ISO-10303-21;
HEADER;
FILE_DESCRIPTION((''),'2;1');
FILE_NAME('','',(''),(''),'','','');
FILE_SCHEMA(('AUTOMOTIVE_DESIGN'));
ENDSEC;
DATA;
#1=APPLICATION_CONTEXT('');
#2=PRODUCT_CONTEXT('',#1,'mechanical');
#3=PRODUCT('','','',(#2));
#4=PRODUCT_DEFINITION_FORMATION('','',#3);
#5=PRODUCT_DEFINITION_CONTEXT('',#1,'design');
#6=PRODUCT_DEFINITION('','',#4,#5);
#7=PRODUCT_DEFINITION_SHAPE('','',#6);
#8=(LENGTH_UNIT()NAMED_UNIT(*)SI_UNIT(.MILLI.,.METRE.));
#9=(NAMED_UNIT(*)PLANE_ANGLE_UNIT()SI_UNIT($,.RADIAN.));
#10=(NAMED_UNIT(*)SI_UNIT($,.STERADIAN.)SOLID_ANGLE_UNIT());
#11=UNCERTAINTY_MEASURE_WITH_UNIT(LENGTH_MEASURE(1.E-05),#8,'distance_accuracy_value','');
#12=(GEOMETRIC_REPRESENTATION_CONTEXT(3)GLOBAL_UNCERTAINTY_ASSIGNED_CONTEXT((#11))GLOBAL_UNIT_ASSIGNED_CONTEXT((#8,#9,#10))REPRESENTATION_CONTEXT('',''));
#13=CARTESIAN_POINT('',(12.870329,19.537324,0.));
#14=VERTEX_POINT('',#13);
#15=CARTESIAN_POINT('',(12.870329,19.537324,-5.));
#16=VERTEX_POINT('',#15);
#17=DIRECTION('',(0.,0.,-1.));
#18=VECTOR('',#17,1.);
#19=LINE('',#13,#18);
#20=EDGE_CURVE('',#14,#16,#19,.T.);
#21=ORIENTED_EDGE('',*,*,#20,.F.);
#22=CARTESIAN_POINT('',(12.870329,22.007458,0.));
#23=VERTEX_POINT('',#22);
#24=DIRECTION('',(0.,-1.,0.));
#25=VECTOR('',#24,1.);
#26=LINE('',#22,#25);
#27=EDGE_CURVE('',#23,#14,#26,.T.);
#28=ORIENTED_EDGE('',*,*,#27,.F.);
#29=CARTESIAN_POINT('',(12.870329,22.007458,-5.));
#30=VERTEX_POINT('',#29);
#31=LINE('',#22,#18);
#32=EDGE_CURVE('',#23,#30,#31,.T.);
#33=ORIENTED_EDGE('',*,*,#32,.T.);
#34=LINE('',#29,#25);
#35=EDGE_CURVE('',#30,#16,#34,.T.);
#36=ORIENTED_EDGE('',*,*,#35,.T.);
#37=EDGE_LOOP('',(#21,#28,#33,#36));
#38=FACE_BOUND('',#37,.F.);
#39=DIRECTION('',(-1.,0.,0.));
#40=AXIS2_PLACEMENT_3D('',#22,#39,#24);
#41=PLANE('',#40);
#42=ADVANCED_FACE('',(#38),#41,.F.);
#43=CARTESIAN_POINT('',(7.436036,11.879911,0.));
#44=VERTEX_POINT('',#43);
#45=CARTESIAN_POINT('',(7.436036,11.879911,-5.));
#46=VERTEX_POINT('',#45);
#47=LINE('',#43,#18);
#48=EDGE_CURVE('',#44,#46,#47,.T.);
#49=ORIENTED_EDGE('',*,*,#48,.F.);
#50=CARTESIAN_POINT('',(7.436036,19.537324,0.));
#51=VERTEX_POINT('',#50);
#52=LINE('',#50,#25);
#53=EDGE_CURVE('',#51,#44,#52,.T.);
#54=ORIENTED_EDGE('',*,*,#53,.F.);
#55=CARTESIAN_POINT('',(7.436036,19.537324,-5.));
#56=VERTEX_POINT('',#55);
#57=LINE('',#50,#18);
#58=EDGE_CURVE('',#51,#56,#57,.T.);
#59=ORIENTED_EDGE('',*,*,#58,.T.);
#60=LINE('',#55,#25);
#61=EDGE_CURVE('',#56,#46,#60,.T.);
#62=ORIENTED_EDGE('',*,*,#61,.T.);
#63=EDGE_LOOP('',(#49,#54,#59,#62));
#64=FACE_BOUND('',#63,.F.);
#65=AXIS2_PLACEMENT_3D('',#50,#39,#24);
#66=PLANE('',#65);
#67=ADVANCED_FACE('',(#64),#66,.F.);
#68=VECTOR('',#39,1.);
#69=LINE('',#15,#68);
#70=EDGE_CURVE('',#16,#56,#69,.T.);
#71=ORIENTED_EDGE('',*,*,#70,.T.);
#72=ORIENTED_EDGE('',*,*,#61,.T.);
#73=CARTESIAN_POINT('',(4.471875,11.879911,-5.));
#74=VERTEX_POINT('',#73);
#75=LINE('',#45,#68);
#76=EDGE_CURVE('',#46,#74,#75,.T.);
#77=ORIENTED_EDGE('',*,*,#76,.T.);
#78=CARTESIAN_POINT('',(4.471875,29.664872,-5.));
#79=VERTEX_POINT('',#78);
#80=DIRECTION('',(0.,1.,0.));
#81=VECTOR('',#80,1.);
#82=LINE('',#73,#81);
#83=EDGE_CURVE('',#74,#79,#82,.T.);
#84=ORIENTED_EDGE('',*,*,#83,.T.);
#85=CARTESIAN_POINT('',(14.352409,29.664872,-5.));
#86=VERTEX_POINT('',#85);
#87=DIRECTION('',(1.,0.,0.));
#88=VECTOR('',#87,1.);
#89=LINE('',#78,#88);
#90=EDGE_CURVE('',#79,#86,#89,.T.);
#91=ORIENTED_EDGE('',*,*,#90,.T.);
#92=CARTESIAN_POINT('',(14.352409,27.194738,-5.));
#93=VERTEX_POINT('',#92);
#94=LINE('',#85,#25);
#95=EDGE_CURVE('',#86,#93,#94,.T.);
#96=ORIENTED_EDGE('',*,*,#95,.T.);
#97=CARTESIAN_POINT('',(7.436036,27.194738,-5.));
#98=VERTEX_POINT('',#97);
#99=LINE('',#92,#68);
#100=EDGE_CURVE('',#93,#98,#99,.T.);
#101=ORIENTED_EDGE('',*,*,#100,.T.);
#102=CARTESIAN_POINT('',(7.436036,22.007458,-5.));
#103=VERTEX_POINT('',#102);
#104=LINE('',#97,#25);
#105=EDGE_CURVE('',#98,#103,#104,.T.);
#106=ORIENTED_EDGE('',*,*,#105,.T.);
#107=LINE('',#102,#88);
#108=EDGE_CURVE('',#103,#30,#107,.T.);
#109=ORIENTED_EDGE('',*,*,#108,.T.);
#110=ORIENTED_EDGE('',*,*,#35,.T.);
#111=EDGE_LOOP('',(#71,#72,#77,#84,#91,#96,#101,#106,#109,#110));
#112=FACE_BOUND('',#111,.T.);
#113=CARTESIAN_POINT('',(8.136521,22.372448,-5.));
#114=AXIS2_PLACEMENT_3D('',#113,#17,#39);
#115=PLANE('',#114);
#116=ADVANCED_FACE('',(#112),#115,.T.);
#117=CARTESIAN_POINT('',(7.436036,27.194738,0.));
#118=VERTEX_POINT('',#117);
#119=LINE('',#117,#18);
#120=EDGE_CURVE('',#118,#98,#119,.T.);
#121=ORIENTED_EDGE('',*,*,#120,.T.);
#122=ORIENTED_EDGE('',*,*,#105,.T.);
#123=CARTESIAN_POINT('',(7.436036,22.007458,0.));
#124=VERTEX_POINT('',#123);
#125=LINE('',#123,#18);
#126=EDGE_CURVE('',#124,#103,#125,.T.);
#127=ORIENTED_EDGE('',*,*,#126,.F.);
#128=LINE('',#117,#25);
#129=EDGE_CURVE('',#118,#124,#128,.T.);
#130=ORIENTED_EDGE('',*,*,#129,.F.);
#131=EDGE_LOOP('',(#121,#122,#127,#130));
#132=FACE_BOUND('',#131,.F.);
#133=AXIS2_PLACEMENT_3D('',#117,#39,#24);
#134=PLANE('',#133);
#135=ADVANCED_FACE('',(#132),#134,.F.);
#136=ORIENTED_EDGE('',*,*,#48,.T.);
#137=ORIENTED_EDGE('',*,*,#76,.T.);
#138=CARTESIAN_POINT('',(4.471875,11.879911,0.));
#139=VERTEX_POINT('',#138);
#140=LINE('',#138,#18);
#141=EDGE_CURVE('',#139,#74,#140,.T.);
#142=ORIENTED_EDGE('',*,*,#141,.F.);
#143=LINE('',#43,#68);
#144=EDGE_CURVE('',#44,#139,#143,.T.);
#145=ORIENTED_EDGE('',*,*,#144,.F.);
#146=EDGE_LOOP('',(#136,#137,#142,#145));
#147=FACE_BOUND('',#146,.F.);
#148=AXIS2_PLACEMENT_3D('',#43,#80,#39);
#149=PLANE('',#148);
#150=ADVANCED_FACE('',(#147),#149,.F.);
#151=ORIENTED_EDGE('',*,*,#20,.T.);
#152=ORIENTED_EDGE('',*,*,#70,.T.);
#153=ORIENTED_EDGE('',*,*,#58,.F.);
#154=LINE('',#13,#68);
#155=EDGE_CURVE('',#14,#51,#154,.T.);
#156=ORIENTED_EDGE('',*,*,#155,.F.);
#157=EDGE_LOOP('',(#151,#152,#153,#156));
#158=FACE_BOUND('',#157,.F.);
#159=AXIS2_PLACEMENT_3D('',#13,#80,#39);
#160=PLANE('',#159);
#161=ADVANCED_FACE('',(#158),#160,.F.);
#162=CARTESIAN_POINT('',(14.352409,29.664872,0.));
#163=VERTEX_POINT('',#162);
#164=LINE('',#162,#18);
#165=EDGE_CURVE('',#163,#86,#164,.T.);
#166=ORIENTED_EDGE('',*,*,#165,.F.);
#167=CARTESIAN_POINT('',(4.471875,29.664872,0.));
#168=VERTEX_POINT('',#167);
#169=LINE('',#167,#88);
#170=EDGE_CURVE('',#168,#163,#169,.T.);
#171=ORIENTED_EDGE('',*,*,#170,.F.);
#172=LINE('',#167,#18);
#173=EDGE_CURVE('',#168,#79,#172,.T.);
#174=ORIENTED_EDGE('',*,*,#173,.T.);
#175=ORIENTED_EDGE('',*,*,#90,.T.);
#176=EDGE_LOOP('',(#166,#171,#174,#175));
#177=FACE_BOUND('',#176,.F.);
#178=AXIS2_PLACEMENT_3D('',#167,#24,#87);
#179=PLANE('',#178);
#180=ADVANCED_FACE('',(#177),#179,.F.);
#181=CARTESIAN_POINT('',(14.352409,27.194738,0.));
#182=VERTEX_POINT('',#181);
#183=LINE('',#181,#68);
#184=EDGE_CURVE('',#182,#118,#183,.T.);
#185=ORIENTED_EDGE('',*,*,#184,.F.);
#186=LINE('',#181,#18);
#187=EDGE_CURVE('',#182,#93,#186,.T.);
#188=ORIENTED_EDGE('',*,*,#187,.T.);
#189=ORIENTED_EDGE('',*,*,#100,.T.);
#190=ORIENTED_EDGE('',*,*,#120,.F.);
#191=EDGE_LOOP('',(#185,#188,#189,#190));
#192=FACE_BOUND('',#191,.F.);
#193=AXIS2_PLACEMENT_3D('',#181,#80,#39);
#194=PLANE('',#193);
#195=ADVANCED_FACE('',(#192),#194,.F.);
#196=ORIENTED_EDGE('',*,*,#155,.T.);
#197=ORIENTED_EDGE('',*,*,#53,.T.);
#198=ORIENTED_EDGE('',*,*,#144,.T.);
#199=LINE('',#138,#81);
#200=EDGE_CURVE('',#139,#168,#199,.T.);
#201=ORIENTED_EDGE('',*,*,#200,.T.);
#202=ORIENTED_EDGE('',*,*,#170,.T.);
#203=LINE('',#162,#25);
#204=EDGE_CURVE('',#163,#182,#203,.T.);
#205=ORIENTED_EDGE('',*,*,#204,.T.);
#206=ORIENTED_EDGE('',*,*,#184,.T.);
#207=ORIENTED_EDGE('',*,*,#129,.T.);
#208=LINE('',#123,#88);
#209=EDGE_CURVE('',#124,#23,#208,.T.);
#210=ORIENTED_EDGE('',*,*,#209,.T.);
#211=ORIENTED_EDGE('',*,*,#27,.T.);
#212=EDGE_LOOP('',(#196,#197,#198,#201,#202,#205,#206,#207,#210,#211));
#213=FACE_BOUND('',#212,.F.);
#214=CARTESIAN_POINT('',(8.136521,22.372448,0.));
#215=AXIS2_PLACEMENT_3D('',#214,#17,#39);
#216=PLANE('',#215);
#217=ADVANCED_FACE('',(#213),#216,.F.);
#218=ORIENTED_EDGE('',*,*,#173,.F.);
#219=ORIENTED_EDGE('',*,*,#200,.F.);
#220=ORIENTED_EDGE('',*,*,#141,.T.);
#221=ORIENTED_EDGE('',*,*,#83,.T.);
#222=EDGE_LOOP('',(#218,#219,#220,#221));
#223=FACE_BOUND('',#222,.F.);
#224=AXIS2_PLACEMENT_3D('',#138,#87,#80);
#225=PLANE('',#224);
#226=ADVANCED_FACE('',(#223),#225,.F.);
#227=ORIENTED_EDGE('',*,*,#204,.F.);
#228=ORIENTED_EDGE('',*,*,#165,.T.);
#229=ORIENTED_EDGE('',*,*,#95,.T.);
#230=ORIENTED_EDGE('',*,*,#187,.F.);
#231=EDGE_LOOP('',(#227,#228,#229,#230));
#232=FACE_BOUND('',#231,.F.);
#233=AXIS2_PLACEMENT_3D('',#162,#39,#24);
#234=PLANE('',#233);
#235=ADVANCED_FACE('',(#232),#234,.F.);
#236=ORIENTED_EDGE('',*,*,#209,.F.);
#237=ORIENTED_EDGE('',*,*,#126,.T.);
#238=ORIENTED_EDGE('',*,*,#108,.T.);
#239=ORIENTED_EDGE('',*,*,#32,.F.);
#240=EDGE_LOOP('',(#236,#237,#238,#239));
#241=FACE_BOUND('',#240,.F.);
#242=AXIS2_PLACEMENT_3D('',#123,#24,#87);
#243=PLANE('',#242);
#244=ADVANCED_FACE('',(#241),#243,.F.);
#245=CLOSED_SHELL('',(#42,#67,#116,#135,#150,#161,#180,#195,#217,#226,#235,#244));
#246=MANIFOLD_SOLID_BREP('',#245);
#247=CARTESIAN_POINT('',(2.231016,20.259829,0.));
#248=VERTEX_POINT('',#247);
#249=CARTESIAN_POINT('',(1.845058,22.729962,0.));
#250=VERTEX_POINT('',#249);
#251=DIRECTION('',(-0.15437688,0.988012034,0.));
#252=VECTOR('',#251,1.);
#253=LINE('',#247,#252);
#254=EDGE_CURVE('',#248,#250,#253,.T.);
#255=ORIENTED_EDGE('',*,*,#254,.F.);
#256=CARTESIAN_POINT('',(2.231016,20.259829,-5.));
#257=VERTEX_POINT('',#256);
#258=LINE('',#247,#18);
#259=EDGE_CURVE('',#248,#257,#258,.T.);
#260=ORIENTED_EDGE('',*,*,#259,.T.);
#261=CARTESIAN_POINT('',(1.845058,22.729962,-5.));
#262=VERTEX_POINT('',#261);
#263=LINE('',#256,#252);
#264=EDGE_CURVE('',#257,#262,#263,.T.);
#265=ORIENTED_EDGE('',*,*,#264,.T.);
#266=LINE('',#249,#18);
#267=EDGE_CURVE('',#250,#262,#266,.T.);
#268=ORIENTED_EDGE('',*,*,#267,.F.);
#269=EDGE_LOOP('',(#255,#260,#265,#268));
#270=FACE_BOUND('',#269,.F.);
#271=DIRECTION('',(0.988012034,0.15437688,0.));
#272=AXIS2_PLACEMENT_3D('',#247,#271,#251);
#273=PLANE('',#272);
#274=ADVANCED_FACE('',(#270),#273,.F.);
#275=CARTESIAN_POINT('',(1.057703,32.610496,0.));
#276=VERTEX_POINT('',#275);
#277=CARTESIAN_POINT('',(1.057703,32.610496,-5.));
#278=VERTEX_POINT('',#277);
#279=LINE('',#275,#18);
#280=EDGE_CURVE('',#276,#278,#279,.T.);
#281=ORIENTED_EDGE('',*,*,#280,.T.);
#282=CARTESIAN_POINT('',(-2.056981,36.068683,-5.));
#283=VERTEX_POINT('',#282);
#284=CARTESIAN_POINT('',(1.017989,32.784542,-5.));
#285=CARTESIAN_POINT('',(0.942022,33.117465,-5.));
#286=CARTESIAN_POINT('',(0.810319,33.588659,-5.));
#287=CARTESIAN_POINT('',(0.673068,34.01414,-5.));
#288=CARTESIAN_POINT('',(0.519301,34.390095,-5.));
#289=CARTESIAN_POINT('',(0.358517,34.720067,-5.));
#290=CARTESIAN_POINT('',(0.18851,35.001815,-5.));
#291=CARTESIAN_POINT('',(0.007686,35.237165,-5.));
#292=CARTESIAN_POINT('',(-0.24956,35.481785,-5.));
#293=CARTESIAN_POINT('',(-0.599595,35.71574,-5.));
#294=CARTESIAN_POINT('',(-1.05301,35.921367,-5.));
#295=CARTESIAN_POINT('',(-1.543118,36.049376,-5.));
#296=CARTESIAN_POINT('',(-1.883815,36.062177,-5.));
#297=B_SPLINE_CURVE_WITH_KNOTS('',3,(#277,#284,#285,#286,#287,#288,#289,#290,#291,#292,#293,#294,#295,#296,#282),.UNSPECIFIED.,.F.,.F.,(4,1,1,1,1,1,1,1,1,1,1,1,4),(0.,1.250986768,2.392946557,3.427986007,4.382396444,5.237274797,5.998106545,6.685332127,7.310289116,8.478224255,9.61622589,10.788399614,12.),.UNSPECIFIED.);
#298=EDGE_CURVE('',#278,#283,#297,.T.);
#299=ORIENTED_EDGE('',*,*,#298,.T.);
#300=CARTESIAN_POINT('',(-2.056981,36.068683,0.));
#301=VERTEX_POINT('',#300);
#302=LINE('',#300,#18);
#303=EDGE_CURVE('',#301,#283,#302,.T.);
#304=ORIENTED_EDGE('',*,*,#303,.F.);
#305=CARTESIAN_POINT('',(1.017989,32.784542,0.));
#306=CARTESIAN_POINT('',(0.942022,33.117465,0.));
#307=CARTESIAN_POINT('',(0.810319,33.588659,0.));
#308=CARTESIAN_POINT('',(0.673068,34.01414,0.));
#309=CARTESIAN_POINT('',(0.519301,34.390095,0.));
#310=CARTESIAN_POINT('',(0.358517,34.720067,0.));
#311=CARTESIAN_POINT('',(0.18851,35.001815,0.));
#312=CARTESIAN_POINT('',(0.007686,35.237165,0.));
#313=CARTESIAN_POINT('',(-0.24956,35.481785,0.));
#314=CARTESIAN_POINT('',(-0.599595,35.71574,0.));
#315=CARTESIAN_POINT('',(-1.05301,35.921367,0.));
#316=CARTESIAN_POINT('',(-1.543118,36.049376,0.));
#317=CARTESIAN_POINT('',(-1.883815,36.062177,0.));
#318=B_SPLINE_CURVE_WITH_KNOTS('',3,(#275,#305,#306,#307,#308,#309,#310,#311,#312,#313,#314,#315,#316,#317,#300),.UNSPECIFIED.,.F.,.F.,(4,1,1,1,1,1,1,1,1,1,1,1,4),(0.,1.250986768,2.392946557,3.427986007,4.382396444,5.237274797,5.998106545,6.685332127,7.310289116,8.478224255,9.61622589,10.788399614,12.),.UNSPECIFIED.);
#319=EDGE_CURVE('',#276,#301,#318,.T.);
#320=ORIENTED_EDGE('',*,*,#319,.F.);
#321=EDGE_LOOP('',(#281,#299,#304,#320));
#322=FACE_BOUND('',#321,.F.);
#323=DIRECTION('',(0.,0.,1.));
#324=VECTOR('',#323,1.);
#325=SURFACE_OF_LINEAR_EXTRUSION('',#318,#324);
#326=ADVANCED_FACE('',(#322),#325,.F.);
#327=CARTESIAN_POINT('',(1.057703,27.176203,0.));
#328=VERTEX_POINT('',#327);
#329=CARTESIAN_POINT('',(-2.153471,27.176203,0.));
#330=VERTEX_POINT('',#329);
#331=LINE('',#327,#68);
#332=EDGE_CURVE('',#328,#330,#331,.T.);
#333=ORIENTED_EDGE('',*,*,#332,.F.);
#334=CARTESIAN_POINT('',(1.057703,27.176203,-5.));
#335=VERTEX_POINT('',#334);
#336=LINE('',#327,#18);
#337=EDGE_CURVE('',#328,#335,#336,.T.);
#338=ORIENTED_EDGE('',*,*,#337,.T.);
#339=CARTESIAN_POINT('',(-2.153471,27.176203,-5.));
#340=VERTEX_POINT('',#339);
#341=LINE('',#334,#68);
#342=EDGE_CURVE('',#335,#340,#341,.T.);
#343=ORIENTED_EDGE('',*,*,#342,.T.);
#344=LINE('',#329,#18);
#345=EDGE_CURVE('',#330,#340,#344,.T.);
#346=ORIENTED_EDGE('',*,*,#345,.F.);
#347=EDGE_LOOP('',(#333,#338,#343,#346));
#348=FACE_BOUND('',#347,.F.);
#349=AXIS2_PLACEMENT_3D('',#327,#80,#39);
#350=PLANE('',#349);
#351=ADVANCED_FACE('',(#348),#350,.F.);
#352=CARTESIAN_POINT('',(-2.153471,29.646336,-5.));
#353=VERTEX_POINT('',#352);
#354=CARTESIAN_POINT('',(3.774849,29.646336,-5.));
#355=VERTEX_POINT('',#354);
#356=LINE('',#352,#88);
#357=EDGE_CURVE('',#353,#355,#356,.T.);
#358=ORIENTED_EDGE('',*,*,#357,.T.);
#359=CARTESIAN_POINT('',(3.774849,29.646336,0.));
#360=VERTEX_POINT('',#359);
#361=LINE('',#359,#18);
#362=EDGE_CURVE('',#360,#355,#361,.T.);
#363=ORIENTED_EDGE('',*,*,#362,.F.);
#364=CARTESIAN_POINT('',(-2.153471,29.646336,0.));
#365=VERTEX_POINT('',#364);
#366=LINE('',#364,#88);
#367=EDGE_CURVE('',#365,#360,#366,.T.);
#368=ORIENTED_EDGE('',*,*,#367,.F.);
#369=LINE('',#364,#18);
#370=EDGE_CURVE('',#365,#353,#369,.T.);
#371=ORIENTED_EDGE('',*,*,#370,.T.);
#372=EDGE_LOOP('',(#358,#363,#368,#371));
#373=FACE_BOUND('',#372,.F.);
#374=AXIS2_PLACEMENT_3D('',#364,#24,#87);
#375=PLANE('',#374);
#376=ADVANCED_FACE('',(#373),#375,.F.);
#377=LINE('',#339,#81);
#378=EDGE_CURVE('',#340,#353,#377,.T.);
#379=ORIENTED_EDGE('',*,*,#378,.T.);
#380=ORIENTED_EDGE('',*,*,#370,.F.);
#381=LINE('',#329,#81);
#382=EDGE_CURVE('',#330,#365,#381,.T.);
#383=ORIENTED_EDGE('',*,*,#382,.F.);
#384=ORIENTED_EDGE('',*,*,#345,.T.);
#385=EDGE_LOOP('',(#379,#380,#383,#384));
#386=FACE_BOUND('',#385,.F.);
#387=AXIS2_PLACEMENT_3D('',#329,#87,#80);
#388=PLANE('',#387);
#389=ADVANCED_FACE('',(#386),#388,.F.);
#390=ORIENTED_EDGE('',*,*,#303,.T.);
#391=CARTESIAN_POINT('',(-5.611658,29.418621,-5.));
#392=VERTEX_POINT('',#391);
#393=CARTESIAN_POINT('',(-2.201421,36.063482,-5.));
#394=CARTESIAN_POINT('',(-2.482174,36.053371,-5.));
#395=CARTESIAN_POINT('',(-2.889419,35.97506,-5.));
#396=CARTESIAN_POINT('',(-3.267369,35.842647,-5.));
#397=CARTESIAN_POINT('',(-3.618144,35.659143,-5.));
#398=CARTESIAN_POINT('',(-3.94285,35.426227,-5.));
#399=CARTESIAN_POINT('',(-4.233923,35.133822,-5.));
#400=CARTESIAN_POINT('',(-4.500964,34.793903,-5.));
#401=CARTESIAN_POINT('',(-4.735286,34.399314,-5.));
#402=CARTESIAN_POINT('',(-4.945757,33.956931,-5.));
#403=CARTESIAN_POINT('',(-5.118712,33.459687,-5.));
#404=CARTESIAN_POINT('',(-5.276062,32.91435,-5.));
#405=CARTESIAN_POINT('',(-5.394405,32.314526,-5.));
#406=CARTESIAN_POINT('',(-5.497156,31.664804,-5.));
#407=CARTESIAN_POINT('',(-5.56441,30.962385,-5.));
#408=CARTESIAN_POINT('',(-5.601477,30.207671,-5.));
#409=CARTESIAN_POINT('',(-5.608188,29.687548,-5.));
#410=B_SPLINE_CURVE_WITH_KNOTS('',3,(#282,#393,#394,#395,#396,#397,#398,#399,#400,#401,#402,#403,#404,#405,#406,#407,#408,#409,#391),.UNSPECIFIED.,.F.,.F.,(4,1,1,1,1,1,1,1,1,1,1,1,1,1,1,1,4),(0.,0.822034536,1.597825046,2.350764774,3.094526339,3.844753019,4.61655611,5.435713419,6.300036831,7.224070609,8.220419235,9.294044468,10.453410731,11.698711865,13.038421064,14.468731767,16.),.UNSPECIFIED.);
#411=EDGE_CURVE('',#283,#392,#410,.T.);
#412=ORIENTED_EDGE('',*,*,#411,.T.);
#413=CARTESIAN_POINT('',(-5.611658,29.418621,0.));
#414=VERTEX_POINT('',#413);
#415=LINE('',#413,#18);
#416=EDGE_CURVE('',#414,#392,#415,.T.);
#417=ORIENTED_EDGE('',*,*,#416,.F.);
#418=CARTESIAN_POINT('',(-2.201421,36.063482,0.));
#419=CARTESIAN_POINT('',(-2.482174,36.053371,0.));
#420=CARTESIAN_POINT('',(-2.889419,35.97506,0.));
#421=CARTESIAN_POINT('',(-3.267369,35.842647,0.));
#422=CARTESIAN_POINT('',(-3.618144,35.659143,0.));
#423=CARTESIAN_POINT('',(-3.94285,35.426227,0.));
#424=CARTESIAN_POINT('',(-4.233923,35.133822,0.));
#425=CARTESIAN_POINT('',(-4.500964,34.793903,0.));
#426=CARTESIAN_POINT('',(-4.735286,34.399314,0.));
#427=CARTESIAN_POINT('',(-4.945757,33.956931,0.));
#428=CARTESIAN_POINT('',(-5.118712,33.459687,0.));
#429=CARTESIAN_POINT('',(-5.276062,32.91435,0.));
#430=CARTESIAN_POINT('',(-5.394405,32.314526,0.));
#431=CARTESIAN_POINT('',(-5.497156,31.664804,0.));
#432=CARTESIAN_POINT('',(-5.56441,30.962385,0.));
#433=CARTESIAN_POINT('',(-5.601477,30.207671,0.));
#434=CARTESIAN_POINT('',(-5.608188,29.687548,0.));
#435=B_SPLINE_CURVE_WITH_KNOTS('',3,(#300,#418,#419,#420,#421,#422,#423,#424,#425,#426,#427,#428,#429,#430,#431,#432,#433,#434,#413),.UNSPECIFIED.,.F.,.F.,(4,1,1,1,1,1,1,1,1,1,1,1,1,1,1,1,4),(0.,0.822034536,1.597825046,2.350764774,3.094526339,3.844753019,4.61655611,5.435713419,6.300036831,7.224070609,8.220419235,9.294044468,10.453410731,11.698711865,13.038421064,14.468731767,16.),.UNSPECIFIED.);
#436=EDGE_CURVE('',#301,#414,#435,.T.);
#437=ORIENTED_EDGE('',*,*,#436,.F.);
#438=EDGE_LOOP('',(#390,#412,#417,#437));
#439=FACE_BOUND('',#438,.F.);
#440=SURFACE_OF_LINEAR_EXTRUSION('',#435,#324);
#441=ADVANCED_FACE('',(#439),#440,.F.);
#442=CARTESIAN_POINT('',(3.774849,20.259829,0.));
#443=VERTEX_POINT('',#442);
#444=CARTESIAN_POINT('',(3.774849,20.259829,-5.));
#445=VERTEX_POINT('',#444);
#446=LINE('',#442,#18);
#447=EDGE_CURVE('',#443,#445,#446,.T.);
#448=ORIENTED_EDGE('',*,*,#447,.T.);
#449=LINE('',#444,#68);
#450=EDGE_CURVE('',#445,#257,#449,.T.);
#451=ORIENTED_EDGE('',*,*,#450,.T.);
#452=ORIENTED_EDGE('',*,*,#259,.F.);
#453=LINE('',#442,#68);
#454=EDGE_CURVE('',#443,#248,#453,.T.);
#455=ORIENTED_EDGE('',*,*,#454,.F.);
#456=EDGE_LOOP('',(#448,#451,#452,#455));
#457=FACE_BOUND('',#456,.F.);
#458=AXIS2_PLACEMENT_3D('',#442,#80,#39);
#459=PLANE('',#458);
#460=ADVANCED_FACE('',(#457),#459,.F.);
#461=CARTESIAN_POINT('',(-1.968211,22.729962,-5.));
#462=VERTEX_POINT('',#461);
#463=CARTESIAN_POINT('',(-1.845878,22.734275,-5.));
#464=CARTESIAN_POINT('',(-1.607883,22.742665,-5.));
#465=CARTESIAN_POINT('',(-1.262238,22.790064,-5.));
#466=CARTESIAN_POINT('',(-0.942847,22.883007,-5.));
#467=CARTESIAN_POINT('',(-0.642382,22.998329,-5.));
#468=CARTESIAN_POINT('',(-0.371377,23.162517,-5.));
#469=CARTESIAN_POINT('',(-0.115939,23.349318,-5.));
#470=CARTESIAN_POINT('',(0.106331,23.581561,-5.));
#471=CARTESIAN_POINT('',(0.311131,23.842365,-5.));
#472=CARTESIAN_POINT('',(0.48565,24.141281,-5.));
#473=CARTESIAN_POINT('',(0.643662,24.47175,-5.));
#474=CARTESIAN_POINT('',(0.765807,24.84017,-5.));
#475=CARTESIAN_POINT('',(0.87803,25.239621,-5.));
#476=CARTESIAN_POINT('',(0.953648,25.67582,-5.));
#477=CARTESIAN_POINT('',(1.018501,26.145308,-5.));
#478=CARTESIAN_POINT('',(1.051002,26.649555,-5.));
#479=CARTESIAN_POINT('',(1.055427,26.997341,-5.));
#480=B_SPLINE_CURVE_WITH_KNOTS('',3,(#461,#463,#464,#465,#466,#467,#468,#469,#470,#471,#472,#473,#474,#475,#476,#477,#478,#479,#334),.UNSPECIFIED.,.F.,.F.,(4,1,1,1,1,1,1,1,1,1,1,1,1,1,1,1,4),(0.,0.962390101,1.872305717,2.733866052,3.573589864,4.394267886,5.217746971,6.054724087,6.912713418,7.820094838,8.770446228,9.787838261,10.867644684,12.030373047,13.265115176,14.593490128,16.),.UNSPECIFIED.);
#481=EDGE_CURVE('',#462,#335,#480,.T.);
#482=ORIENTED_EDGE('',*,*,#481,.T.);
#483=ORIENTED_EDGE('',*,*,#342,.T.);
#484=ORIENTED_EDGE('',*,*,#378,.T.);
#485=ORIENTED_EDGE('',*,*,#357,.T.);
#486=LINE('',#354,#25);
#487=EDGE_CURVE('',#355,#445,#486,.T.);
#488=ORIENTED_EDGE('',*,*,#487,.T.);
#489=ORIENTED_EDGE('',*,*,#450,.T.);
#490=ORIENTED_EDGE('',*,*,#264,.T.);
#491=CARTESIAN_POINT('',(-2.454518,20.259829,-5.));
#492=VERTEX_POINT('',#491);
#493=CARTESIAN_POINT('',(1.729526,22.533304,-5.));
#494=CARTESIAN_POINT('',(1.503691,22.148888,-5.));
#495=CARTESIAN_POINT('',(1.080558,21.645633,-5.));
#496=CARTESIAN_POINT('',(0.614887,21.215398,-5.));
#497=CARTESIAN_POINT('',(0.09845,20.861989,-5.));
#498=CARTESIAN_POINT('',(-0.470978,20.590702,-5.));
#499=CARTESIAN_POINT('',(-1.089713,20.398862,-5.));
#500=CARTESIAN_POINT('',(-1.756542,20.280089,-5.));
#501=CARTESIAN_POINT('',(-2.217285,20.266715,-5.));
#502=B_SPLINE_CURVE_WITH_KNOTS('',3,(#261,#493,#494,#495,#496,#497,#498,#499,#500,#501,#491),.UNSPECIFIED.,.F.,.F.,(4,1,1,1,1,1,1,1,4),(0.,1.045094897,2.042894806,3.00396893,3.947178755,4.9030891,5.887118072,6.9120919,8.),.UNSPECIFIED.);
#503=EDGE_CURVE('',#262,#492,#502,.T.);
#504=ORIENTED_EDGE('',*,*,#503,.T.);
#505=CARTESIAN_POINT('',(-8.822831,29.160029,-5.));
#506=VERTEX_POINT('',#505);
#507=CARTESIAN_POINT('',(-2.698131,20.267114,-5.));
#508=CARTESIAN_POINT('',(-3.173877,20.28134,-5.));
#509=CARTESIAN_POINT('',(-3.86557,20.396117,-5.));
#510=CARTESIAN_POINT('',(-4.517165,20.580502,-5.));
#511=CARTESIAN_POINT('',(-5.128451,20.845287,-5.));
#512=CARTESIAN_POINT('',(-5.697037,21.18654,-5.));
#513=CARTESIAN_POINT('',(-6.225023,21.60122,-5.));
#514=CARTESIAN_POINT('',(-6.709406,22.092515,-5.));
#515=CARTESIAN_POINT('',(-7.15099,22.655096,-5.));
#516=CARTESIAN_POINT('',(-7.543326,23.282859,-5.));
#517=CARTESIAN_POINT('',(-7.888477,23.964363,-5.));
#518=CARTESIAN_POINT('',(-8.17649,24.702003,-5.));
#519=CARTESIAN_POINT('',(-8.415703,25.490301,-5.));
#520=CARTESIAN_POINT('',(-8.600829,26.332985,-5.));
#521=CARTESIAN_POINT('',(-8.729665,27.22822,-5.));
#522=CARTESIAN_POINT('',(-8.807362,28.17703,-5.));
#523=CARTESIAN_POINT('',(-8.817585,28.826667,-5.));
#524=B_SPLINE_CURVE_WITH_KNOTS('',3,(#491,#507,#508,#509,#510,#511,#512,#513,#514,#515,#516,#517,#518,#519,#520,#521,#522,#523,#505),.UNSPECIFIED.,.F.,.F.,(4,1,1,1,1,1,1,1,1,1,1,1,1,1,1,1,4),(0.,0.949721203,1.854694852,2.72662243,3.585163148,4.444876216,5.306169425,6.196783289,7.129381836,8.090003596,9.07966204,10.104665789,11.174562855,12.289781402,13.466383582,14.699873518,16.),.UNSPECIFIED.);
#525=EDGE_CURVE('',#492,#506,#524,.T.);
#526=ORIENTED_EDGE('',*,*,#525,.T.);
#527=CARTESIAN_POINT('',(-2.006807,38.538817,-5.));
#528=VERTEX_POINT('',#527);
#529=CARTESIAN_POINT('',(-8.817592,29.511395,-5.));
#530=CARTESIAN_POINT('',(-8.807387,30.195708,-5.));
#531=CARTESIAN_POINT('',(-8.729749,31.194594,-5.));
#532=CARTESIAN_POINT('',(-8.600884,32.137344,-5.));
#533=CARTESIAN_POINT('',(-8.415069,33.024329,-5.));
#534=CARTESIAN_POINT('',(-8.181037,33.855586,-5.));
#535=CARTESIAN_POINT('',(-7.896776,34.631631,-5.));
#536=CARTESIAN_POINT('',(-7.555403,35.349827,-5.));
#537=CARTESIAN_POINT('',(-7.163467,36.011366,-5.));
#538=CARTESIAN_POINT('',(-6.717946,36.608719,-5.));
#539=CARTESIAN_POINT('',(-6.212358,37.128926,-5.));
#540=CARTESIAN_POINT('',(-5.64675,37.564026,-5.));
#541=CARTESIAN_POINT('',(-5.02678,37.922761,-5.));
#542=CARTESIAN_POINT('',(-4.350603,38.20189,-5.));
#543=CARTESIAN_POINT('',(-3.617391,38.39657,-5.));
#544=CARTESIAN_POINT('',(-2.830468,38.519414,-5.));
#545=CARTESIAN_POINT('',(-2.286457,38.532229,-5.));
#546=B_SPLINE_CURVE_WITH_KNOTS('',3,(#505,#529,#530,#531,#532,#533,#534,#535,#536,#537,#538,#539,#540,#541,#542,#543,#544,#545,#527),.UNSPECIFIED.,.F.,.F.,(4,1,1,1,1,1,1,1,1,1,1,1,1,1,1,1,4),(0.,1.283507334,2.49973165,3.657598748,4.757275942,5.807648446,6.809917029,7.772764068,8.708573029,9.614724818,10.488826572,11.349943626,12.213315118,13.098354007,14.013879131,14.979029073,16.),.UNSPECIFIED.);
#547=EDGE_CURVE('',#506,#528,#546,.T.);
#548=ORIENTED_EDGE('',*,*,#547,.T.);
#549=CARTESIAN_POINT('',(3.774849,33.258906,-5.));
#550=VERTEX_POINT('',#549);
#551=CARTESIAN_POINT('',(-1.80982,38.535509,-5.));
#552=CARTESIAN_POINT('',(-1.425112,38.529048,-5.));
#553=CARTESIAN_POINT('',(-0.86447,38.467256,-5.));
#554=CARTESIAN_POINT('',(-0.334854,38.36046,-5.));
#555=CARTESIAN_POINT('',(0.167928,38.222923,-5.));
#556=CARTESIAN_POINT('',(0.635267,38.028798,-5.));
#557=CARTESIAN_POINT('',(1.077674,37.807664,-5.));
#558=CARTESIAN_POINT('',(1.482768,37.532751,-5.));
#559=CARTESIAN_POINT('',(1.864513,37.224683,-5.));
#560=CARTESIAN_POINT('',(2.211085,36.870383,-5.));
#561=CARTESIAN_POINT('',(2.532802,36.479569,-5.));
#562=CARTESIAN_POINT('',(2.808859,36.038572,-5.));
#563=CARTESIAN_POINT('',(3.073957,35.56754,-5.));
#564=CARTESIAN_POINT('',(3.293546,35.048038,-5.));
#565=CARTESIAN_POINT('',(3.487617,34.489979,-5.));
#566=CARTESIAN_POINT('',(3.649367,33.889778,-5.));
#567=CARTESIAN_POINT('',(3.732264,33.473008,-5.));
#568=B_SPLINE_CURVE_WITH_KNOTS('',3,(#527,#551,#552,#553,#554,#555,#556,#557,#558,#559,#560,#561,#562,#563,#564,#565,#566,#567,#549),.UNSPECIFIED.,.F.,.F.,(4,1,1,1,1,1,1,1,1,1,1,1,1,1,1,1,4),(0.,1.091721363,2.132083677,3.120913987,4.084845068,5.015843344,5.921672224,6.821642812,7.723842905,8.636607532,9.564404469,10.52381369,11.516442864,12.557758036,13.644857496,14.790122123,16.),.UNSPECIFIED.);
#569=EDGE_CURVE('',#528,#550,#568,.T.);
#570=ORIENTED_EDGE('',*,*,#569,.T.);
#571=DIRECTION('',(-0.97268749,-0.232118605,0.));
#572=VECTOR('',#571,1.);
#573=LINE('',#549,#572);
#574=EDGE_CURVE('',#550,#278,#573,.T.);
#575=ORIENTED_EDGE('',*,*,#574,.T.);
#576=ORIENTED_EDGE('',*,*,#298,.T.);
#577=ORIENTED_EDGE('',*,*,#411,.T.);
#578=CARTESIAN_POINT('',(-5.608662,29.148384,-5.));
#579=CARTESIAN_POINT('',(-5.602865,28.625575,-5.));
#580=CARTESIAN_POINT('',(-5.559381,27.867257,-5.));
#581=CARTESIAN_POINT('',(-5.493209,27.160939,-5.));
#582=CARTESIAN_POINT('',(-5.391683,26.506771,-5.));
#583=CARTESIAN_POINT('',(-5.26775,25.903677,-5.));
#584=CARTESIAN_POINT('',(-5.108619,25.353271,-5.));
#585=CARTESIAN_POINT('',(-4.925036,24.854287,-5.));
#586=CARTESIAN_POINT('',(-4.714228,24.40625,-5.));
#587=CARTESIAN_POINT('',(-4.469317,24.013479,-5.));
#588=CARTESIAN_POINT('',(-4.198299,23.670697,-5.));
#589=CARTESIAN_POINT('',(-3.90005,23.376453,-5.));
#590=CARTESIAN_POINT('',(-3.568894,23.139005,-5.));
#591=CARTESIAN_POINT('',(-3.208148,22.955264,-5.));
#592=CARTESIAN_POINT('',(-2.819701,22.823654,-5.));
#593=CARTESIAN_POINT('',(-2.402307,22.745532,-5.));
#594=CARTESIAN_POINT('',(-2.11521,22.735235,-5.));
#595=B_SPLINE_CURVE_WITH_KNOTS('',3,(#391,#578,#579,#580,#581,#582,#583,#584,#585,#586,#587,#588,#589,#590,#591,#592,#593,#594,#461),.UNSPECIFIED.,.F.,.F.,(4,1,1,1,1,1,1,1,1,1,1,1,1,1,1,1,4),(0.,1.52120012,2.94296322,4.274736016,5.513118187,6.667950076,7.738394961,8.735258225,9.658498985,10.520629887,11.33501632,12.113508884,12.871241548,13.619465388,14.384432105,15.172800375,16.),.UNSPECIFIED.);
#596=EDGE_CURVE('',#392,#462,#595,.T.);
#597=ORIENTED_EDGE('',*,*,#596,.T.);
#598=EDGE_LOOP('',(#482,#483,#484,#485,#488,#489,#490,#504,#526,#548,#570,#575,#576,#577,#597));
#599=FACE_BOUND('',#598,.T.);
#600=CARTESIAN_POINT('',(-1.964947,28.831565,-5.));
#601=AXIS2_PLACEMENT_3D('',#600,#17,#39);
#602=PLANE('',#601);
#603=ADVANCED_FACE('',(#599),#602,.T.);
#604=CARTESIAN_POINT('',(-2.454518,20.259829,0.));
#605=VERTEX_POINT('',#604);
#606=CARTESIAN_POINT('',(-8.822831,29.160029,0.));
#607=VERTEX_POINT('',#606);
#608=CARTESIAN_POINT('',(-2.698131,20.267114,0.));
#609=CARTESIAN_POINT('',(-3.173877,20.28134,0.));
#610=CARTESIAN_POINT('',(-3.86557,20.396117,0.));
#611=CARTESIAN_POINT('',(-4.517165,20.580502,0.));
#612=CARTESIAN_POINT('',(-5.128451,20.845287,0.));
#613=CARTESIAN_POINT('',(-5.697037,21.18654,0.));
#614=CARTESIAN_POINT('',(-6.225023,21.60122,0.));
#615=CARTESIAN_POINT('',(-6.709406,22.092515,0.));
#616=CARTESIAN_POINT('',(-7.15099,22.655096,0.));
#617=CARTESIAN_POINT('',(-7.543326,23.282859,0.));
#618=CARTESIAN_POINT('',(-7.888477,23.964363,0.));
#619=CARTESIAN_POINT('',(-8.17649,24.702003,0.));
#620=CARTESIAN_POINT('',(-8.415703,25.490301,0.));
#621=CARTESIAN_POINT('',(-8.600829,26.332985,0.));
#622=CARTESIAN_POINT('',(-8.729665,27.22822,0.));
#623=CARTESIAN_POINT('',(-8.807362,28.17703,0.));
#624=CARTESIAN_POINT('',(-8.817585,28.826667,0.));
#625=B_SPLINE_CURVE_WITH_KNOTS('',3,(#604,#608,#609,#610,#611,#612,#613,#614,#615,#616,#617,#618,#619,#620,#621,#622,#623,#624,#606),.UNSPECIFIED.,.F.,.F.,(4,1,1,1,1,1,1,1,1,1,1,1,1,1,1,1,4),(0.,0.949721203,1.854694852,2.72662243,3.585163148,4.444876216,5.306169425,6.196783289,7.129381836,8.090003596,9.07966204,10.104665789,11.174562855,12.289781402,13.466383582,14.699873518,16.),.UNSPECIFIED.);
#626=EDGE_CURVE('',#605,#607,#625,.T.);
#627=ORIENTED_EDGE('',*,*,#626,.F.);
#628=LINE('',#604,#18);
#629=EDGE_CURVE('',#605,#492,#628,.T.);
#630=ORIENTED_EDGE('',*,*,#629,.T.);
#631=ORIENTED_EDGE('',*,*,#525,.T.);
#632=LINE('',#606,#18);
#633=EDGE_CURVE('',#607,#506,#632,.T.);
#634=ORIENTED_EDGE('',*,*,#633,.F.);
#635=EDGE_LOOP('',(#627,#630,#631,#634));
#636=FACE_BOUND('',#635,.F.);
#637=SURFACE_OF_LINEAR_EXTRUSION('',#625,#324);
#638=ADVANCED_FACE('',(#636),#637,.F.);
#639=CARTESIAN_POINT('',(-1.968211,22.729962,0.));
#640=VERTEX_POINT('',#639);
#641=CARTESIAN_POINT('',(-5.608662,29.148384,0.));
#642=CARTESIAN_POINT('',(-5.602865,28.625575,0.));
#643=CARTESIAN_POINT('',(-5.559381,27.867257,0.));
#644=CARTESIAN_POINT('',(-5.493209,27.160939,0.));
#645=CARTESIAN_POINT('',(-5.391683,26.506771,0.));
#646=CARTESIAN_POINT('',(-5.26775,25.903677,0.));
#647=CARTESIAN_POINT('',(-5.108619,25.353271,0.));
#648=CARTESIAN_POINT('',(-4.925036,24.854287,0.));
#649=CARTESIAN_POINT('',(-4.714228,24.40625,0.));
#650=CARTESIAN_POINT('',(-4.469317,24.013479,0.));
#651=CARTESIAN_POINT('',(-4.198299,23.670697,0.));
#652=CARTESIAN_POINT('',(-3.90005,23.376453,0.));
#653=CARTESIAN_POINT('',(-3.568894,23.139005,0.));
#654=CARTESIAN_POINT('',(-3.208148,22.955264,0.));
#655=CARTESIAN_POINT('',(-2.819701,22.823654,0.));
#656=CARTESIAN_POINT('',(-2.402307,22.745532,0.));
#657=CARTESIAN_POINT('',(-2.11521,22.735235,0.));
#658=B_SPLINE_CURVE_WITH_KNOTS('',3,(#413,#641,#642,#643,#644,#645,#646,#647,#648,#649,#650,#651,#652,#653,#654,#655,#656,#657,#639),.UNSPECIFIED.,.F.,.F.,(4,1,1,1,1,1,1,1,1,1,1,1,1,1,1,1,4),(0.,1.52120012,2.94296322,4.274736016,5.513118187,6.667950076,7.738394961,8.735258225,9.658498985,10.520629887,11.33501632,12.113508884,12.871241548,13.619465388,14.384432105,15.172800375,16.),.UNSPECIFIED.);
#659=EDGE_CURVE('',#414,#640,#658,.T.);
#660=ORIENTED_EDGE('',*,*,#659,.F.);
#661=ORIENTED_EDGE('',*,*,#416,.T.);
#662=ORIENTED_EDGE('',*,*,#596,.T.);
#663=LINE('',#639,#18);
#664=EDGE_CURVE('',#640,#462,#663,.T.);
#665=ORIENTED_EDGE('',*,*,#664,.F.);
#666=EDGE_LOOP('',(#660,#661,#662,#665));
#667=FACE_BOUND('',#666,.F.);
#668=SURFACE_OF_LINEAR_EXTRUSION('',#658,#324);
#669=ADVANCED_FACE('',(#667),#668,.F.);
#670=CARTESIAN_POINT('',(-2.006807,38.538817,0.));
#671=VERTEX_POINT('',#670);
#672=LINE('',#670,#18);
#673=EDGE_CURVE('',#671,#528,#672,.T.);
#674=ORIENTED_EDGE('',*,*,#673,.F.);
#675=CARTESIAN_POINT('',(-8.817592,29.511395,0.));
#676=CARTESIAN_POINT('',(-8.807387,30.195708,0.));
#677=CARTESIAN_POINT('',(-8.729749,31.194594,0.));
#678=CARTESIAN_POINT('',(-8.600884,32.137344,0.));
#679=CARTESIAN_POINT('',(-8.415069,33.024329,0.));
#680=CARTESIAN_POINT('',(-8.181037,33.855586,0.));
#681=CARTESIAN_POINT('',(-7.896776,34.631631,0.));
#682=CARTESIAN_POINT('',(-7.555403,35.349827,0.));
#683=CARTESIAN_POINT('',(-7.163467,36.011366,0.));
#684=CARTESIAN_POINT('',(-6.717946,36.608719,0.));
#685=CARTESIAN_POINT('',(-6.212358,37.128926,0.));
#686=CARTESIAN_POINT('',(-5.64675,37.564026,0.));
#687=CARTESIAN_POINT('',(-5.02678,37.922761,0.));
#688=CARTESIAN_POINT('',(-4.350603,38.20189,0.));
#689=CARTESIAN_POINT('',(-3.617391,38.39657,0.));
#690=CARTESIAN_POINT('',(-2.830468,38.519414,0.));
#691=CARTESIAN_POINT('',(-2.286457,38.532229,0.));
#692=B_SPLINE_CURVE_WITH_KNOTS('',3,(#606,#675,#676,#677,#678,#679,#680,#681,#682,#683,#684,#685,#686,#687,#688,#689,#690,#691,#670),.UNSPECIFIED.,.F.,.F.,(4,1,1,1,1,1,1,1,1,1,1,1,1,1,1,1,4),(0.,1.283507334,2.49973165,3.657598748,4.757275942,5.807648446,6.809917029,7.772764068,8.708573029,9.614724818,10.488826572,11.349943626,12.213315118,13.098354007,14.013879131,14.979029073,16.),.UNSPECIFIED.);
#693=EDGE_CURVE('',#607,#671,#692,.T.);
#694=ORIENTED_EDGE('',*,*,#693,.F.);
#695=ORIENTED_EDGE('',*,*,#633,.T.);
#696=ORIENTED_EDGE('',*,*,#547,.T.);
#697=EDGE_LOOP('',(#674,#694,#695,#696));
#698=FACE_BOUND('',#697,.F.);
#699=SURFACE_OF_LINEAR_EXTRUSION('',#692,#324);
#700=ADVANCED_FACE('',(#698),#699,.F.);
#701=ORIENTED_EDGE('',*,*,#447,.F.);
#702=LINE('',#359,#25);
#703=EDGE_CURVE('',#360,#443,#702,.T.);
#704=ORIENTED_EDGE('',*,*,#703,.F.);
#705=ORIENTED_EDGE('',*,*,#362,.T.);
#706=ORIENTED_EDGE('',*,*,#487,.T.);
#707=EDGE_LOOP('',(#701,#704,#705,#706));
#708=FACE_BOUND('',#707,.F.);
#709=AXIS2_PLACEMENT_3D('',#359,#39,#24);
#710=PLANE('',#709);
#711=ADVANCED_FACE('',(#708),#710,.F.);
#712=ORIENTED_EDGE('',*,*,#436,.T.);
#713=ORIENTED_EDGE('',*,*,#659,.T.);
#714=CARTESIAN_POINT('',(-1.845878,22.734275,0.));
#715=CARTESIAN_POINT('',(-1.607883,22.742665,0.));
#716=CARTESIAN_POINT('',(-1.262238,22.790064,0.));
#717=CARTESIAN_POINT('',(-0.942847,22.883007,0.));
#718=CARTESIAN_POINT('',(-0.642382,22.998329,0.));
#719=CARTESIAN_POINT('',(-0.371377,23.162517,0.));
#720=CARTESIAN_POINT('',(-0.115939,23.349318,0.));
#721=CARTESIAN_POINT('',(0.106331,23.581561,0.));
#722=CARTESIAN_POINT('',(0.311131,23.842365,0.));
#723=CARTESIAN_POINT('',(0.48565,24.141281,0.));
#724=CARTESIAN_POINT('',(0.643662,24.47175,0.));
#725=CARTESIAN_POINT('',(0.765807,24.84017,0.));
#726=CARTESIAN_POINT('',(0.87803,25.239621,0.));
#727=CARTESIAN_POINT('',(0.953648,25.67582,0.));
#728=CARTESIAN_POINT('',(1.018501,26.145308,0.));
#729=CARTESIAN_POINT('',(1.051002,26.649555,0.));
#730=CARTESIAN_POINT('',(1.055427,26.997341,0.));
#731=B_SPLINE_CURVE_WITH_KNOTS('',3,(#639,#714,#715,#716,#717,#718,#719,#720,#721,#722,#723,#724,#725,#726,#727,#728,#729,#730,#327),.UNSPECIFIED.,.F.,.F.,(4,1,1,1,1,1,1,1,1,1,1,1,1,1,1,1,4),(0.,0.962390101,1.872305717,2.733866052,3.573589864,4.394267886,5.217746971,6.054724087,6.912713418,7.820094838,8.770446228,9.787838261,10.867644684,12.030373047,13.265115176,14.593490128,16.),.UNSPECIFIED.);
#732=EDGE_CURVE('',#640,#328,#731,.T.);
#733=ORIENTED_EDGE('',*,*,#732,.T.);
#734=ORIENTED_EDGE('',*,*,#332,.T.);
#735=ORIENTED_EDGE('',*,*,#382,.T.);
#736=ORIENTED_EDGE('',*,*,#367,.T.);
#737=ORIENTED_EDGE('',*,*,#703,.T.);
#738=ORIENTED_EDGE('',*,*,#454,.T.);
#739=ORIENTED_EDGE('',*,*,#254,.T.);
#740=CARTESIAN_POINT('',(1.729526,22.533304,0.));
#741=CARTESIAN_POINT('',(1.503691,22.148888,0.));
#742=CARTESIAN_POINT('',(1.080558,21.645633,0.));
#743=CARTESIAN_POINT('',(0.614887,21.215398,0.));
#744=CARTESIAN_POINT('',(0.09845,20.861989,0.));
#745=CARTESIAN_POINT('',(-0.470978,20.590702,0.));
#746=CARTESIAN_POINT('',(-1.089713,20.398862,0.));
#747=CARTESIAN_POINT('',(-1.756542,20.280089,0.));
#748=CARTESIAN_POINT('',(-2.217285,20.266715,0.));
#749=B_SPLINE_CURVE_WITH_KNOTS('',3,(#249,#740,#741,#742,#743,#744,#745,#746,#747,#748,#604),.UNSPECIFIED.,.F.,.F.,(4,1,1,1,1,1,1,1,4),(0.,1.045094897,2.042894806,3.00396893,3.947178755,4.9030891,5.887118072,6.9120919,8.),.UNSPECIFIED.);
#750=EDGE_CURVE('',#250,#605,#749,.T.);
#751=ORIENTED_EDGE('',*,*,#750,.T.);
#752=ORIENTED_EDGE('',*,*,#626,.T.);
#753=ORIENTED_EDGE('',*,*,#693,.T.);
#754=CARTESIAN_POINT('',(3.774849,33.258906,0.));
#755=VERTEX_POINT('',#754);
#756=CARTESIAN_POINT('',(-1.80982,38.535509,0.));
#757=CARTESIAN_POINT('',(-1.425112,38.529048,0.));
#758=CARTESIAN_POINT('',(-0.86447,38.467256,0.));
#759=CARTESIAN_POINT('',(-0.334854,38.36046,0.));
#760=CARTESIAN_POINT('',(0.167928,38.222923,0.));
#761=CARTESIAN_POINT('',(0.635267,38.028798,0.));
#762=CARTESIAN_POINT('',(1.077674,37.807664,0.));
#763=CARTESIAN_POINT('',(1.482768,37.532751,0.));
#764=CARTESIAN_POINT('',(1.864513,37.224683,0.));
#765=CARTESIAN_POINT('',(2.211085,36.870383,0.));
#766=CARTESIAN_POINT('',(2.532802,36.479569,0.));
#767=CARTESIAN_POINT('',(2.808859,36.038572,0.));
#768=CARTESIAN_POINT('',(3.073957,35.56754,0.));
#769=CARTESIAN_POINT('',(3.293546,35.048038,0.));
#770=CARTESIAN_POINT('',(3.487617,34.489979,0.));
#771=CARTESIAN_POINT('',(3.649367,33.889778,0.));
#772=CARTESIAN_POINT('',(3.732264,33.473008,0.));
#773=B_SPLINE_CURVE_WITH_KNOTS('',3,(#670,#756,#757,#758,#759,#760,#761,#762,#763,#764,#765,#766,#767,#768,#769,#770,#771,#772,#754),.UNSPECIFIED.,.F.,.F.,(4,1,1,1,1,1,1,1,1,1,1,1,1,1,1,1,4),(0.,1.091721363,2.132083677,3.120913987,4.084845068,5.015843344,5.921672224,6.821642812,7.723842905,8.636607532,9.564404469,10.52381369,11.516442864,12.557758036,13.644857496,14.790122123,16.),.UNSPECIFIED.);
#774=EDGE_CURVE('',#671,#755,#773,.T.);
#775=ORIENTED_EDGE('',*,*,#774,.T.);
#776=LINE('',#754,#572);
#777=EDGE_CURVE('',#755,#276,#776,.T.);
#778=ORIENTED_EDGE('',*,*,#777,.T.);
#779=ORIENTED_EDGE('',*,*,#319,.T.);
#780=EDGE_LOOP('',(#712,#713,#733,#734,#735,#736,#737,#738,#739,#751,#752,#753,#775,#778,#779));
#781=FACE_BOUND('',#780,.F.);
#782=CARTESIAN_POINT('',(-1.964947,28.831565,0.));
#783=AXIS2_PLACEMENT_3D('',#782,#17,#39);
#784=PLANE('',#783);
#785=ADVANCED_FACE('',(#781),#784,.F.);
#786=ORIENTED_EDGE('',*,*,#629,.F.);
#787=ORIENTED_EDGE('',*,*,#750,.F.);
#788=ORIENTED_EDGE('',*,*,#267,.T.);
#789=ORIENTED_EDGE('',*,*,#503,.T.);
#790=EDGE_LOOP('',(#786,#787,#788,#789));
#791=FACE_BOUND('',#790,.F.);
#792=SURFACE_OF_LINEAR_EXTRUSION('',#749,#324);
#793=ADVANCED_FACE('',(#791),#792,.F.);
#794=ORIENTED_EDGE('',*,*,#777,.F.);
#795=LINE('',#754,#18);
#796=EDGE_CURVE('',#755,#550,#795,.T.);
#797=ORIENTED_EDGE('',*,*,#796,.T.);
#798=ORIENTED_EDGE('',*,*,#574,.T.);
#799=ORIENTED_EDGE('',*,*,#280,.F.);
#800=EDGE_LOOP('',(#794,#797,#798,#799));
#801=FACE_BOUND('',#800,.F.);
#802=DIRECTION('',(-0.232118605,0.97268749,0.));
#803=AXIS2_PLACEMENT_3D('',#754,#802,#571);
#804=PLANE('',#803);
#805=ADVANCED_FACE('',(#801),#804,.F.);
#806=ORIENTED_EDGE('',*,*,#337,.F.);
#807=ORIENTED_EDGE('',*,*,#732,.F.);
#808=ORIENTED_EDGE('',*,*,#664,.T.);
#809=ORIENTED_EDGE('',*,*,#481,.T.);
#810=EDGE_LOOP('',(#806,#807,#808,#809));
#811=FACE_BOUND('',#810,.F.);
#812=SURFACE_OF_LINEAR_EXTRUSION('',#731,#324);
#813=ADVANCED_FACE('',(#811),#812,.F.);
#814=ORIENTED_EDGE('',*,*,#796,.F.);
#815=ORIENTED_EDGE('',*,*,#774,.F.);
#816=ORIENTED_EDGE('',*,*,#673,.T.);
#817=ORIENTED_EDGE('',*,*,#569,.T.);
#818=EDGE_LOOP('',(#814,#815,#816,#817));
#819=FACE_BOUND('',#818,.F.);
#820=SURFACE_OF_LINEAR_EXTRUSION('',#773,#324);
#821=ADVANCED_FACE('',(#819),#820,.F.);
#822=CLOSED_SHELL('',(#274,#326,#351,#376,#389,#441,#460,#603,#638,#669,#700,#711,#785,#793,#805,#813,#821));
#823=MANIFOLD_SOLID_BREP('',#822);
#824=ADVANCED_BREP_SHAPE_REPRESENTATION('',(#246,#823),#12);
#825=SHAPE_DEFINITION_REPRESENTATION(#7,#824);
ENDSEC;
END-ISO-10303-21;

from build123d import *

# Parameters (mm, degrees)
BOSS_EXTRUDE1_DEPTH   = 5
BOSS_EXTRUDE1_2_DEPTH = 5


with BuildPart() as part:
    # Sketch1 → Boss-Extrude1 (new body)
    with BuildSketch(Plane.XY):
        with BuildLine():
            Line((-2.153470948, 29.646336052), (3.774849364, 29.646336052))
            Line((3.774849364, 29.646336052), (3.774849364, 20.25982889))
            Line((3.774849364, 20.25982889), (2.231015949, 20.25982889))
            Line((2.231015949, 20.25982889), (1.845057596, 22.729962354))
            add(Edge.make_bspline(
                [(1.845057596, 22.729962354), (1.729525903, 22.533304465), (1.503690818, 22.148888294), (1.080558094, 21.64563251), (0.614887351, 21.215397775), (0.098449936, 20.861989165), (-0.470978389, 20.59070171), (-1.089712716, 20.398862088), (-1.756542389, 20.280088735), (-2.217285213, 20.266714956), (-2.454518464, 20.25982889)],
                knots=[0, 0, 0, 0, 1.045094897, 2.042894806, 3.00396893, 3.947178755, 4.9030891, 5.887118072, 6.9120919, 8, 8, 8, 8], degree=3))
            add(Edge.make_bspline(
                [(-2.454518464, 20.25982889), (-2.698130672, 20.267113832), (-3.173876929, 20.281340473), (-3.865569565, 20.396116702), (-4.517165489, 20.580501886), (-5.128450967, 20.845286717), (-5.697036574, 21.186540071), (-6.225022821, 21.601219562), (-6.709406437, 22.092515395), (-7.15098965, 22.655095858), (-7.543326313, 23.282859382), (-7.88847734, 23.964362978), (-8.17649002, 24.702002757), (-8.415702521, 25.490301095), (-8.600828997, 26.332985286), (-8.729665047, 27.228220065), (-8.807362473, 28.177030046), (-8.8175854, 28.826667007), (-8.8228313, 29.160028526)],
                knots=[0, 0, 0, 0, 0.949721203, 1.854694852, 2.72662243, 3.585163148, 4.444876216, 5.306169425, 6.196783289, 7.129381836, 8.090003596, 9.07966204, 10.104665789, 11.174562855, 12.289781402, 13.466383582, 14.699873518, 16, 16, 16, 16], degree=3))
            add(Edge.make_bspline(
                [(-8.8228313, 29.160028526), (-8.817591801, 29.511394704), (-8.807387464, 30.195708017), (-8.729749384, 31.194594037), (-8.600883803, 32.137344421), (-8.41506872, 33.024328597), (-8.181037172, 33.855586008), (-7.896776275, 34.631630559), (-7.555402518, 35.349827452), (-7.16346701, 36.011365884), (-6.717945821, 36.608718924), (-6.212357575, 37.128925948), (-5.646749532, 37.564025711), (-5.026780123, 37.922760562), (-4.350603128, 38.201889817), (-3.61739057, 38.396570378), (-2.830467553, 38.519413614), (-2.286456936, 38.532228825), (-2.006806774, 38.53881652)],
                knots=[0, 0, 0, 0, 1.283507334, 2.49973165, 3.657598748, 4.757275942, 5.807648446, 6.809917029, 7.772764068, 8.708573029, 9.614724818, 10.488826572, 11.349943626, 12.213315118, 13.098354007, 14.013879131, 14.979029073, 16, 16, 16, 16], degree=3))
            add(Edge.make_bspline(
                [(-2.006806774, 38.53881652), (-1.809819511, 38.535508623), (-1.425112074, 38.529048445), (-0.864469996, 38.467256454), (-0.334854164, 38.360460256), (0.167928351, 38.222922542), (0.635266636, 38.028798301), (1.077673649, 37.807663901), (1.482767559, 37.532751211), (1.864512748, 37.224683434), (2.211085183, 36.870383281), (2.532802388, 36.479569395), (2.80885929, 36.038571734), (3.07395713, 35.56754015), (3.293545827, 35.0480383), (3.487617172, 34.489979216), (3.649367029, 33.889777833), (3.732263829, 33.473008126), (3.774849364, 33.258906242)],
                knots=[0, 0, 0, 0, 1.091721363, 2.132083677, 3.120913987, 4.084845068, 5.015843344, 5.921672224, 6.821642812, 7.723842905, 8.636607532, 9.564404469, 10.52381369, 11.516442864, 12.557758036, 13.644857496, 14.790122123, 16, 16, 16, 16], degree=3))
            Line((3.774849364, 33.258906242), (1.057702554, 32.610496208))
            add(Edge.make_bspline(
                [(1.057702554, 32.610496208), (1.017988506, 32.784541866), (0.942021599, 33.11746462), (0.810318891, 33.588658851), (0.673068245, 34.014139696), (0.519300746, 34.390094738), (0.358517036, 34.720067453), (0.188510465, 35.001815223), (0.007685514, 35.237165277), (-0.249559855, 35.481785215), (-0.599595416, 35.715739853), (-1.053009728, 35.921366653), (-1.543117531, 36.049375699), (-1.883815084, 36.062176697), (-2.05698136, 36.068683057)],
                knots=[0, 0, 0, 0, 1.250986768, 2.392946557, 3.427986007, 4.382396444, 5.237274797, 5.998106545, 6.685332127, 7.310289116, 8.478224255, 9.61622589, 10.788399614, 12, 12, 12, 12], degree=3))
            add(Edge.make_bspline(
                [(-2.05698136, 36.068683057), (-2.201420728, 36.06348151), (-2.482173943, 36.053371032), (-2.88941867, 35.97506005), (-3.267368794, 35.842647097), (-3.618144352, 35.659143032), (-3.942849997, 35.426227394), (-4.233923149, 35.133821934), (-4.500963596, 34.79390284), (-4.735285923, 34.39931385), (-4.945757205, 33.956931418), (-5.118712319, 33.459687093), (-5.276062166, 32.914350106), (-5.394404588, 32.314526456), (-5.497156277, 31.664803884), (-5.564409957, 30.96238493), (-5.601477087, 30.207670726), (-5.608187971, 29.6875475), (-5.611657797, 29.418620623)],
                knots=[0, 0, 0, 0, 0.822034536, 1.597825046, 2.350764774, 3.094526339, 3.844753019, 4.61655611, 5.435713419, 6.300036831, 7.224070609, 8.220419235, 9.294044468, 10.453410731, 11.698711865, 13.038421064, 14.468731767, 16, 16, 16, 16], degree=3))
            add(Edge.make_bspline(
                [(-5.611657797, 29.418620623), (-5.608661649, 29.148383698), (-5.602865204, 28.625574554), (-5.559380712, 27.867257416), (-5.493209044, 27.160938567), (-5.391682829, 26.506770655), (-5.26774952, 25.903676588), (-5.108619158, 25.353271445), (-4.925035604, 24.854286683), (-4.714228102, 24.406250115), (-4.469317297, 24.013479246), (-4.198298686, 23.670696762), (-3.900050103, 23.376452501), (-3.56889437, 23.139005258), (-3.208148239, 22.955263782), (-2.819700703, 22.823653617), (-2.402306839, 22.745532323), (-2.115209768, 22.735234846), (-1.968210939, 22.729962354)],
                knots=[0, 0, 0, 0, 1.52120012, 2.94296322, 4.274736016, 5.513118187, 6.667950076, 7.738394961, 8.735258225, 9.658498985, 10.520629887, 11.33501632, 12.113508884, 12.871241548, 13.619465388, 14.384432105, 15.172800375, 16, 16, 16, 16], degree=3))
            add(Edge.make_bspline(
                [(-1.968210939, 22.729962354), (-1.845878257, 22.734275072), (-1.607883105, 22.742665358), (-1.262237884, 22.790063864), (-0.942846742, 22.883006843), (-0.642381739, 22.998328917), (-0.371376572, 23.162517133), (-0.115938958, 23.349317682), (0.106330913, 23.581560706), (0.311130739, 23.842365285), (0.485650064, 24.141280533), (0.643661708, 24.471749854), (0.765807345, 24.840169648), (0.878029531, 25.239620688), (0.953647604, 25.675820047), (1.018500834, 26.145308167), (1.051002391, 26.649555044), (1.05542703, 26.997341353), (1.057702554, 27.176202588)],
                knots=[0, 0, 0, 0, 0.962390101, 1.872305717, 2.733866052, 3.573589864, 4.394267886, 5.217746971, 6.054724087, 6.912713418, 7.820094838, 8.770446228, 9.787838261, 10.867644684, 12.030373047, 13.265115176, 14.593490128, 16, 16, 16, 16], degree=3))
            Line((1.057702554, 27.176202588), (-2.153470948, 27.176202588))
            Line((-2.153470948, 27.176202588), (-2.153470948, 29.646336052))
        make_face()
    extrude(amount=-BOSS_EXTRUDE1_DEPTH)


with BuildPart() as body_2:
    # Sketch1 → Boss-Extrude1 2 (new body)
    with BuildSketch(Plane.XY):
        Polygon((4.471875445, 29.664871557), (14.352409299, 29.664871557), (14.352409299, 27.194738094), (7.436035601, 27.194738094), (7.436035601, 22.007457821), (12.870329221, 22.007457821), (12.870329221, 19.537324357), (7.436035601, 19.537324357), (7.436035601, 11.87991062), (4.471875445, 11.87991062), align=None)
    extrude(amount=-BOSS_EXTRUDE1_2_DEPTH)


solid = Compound([part.part, body_2.part])
